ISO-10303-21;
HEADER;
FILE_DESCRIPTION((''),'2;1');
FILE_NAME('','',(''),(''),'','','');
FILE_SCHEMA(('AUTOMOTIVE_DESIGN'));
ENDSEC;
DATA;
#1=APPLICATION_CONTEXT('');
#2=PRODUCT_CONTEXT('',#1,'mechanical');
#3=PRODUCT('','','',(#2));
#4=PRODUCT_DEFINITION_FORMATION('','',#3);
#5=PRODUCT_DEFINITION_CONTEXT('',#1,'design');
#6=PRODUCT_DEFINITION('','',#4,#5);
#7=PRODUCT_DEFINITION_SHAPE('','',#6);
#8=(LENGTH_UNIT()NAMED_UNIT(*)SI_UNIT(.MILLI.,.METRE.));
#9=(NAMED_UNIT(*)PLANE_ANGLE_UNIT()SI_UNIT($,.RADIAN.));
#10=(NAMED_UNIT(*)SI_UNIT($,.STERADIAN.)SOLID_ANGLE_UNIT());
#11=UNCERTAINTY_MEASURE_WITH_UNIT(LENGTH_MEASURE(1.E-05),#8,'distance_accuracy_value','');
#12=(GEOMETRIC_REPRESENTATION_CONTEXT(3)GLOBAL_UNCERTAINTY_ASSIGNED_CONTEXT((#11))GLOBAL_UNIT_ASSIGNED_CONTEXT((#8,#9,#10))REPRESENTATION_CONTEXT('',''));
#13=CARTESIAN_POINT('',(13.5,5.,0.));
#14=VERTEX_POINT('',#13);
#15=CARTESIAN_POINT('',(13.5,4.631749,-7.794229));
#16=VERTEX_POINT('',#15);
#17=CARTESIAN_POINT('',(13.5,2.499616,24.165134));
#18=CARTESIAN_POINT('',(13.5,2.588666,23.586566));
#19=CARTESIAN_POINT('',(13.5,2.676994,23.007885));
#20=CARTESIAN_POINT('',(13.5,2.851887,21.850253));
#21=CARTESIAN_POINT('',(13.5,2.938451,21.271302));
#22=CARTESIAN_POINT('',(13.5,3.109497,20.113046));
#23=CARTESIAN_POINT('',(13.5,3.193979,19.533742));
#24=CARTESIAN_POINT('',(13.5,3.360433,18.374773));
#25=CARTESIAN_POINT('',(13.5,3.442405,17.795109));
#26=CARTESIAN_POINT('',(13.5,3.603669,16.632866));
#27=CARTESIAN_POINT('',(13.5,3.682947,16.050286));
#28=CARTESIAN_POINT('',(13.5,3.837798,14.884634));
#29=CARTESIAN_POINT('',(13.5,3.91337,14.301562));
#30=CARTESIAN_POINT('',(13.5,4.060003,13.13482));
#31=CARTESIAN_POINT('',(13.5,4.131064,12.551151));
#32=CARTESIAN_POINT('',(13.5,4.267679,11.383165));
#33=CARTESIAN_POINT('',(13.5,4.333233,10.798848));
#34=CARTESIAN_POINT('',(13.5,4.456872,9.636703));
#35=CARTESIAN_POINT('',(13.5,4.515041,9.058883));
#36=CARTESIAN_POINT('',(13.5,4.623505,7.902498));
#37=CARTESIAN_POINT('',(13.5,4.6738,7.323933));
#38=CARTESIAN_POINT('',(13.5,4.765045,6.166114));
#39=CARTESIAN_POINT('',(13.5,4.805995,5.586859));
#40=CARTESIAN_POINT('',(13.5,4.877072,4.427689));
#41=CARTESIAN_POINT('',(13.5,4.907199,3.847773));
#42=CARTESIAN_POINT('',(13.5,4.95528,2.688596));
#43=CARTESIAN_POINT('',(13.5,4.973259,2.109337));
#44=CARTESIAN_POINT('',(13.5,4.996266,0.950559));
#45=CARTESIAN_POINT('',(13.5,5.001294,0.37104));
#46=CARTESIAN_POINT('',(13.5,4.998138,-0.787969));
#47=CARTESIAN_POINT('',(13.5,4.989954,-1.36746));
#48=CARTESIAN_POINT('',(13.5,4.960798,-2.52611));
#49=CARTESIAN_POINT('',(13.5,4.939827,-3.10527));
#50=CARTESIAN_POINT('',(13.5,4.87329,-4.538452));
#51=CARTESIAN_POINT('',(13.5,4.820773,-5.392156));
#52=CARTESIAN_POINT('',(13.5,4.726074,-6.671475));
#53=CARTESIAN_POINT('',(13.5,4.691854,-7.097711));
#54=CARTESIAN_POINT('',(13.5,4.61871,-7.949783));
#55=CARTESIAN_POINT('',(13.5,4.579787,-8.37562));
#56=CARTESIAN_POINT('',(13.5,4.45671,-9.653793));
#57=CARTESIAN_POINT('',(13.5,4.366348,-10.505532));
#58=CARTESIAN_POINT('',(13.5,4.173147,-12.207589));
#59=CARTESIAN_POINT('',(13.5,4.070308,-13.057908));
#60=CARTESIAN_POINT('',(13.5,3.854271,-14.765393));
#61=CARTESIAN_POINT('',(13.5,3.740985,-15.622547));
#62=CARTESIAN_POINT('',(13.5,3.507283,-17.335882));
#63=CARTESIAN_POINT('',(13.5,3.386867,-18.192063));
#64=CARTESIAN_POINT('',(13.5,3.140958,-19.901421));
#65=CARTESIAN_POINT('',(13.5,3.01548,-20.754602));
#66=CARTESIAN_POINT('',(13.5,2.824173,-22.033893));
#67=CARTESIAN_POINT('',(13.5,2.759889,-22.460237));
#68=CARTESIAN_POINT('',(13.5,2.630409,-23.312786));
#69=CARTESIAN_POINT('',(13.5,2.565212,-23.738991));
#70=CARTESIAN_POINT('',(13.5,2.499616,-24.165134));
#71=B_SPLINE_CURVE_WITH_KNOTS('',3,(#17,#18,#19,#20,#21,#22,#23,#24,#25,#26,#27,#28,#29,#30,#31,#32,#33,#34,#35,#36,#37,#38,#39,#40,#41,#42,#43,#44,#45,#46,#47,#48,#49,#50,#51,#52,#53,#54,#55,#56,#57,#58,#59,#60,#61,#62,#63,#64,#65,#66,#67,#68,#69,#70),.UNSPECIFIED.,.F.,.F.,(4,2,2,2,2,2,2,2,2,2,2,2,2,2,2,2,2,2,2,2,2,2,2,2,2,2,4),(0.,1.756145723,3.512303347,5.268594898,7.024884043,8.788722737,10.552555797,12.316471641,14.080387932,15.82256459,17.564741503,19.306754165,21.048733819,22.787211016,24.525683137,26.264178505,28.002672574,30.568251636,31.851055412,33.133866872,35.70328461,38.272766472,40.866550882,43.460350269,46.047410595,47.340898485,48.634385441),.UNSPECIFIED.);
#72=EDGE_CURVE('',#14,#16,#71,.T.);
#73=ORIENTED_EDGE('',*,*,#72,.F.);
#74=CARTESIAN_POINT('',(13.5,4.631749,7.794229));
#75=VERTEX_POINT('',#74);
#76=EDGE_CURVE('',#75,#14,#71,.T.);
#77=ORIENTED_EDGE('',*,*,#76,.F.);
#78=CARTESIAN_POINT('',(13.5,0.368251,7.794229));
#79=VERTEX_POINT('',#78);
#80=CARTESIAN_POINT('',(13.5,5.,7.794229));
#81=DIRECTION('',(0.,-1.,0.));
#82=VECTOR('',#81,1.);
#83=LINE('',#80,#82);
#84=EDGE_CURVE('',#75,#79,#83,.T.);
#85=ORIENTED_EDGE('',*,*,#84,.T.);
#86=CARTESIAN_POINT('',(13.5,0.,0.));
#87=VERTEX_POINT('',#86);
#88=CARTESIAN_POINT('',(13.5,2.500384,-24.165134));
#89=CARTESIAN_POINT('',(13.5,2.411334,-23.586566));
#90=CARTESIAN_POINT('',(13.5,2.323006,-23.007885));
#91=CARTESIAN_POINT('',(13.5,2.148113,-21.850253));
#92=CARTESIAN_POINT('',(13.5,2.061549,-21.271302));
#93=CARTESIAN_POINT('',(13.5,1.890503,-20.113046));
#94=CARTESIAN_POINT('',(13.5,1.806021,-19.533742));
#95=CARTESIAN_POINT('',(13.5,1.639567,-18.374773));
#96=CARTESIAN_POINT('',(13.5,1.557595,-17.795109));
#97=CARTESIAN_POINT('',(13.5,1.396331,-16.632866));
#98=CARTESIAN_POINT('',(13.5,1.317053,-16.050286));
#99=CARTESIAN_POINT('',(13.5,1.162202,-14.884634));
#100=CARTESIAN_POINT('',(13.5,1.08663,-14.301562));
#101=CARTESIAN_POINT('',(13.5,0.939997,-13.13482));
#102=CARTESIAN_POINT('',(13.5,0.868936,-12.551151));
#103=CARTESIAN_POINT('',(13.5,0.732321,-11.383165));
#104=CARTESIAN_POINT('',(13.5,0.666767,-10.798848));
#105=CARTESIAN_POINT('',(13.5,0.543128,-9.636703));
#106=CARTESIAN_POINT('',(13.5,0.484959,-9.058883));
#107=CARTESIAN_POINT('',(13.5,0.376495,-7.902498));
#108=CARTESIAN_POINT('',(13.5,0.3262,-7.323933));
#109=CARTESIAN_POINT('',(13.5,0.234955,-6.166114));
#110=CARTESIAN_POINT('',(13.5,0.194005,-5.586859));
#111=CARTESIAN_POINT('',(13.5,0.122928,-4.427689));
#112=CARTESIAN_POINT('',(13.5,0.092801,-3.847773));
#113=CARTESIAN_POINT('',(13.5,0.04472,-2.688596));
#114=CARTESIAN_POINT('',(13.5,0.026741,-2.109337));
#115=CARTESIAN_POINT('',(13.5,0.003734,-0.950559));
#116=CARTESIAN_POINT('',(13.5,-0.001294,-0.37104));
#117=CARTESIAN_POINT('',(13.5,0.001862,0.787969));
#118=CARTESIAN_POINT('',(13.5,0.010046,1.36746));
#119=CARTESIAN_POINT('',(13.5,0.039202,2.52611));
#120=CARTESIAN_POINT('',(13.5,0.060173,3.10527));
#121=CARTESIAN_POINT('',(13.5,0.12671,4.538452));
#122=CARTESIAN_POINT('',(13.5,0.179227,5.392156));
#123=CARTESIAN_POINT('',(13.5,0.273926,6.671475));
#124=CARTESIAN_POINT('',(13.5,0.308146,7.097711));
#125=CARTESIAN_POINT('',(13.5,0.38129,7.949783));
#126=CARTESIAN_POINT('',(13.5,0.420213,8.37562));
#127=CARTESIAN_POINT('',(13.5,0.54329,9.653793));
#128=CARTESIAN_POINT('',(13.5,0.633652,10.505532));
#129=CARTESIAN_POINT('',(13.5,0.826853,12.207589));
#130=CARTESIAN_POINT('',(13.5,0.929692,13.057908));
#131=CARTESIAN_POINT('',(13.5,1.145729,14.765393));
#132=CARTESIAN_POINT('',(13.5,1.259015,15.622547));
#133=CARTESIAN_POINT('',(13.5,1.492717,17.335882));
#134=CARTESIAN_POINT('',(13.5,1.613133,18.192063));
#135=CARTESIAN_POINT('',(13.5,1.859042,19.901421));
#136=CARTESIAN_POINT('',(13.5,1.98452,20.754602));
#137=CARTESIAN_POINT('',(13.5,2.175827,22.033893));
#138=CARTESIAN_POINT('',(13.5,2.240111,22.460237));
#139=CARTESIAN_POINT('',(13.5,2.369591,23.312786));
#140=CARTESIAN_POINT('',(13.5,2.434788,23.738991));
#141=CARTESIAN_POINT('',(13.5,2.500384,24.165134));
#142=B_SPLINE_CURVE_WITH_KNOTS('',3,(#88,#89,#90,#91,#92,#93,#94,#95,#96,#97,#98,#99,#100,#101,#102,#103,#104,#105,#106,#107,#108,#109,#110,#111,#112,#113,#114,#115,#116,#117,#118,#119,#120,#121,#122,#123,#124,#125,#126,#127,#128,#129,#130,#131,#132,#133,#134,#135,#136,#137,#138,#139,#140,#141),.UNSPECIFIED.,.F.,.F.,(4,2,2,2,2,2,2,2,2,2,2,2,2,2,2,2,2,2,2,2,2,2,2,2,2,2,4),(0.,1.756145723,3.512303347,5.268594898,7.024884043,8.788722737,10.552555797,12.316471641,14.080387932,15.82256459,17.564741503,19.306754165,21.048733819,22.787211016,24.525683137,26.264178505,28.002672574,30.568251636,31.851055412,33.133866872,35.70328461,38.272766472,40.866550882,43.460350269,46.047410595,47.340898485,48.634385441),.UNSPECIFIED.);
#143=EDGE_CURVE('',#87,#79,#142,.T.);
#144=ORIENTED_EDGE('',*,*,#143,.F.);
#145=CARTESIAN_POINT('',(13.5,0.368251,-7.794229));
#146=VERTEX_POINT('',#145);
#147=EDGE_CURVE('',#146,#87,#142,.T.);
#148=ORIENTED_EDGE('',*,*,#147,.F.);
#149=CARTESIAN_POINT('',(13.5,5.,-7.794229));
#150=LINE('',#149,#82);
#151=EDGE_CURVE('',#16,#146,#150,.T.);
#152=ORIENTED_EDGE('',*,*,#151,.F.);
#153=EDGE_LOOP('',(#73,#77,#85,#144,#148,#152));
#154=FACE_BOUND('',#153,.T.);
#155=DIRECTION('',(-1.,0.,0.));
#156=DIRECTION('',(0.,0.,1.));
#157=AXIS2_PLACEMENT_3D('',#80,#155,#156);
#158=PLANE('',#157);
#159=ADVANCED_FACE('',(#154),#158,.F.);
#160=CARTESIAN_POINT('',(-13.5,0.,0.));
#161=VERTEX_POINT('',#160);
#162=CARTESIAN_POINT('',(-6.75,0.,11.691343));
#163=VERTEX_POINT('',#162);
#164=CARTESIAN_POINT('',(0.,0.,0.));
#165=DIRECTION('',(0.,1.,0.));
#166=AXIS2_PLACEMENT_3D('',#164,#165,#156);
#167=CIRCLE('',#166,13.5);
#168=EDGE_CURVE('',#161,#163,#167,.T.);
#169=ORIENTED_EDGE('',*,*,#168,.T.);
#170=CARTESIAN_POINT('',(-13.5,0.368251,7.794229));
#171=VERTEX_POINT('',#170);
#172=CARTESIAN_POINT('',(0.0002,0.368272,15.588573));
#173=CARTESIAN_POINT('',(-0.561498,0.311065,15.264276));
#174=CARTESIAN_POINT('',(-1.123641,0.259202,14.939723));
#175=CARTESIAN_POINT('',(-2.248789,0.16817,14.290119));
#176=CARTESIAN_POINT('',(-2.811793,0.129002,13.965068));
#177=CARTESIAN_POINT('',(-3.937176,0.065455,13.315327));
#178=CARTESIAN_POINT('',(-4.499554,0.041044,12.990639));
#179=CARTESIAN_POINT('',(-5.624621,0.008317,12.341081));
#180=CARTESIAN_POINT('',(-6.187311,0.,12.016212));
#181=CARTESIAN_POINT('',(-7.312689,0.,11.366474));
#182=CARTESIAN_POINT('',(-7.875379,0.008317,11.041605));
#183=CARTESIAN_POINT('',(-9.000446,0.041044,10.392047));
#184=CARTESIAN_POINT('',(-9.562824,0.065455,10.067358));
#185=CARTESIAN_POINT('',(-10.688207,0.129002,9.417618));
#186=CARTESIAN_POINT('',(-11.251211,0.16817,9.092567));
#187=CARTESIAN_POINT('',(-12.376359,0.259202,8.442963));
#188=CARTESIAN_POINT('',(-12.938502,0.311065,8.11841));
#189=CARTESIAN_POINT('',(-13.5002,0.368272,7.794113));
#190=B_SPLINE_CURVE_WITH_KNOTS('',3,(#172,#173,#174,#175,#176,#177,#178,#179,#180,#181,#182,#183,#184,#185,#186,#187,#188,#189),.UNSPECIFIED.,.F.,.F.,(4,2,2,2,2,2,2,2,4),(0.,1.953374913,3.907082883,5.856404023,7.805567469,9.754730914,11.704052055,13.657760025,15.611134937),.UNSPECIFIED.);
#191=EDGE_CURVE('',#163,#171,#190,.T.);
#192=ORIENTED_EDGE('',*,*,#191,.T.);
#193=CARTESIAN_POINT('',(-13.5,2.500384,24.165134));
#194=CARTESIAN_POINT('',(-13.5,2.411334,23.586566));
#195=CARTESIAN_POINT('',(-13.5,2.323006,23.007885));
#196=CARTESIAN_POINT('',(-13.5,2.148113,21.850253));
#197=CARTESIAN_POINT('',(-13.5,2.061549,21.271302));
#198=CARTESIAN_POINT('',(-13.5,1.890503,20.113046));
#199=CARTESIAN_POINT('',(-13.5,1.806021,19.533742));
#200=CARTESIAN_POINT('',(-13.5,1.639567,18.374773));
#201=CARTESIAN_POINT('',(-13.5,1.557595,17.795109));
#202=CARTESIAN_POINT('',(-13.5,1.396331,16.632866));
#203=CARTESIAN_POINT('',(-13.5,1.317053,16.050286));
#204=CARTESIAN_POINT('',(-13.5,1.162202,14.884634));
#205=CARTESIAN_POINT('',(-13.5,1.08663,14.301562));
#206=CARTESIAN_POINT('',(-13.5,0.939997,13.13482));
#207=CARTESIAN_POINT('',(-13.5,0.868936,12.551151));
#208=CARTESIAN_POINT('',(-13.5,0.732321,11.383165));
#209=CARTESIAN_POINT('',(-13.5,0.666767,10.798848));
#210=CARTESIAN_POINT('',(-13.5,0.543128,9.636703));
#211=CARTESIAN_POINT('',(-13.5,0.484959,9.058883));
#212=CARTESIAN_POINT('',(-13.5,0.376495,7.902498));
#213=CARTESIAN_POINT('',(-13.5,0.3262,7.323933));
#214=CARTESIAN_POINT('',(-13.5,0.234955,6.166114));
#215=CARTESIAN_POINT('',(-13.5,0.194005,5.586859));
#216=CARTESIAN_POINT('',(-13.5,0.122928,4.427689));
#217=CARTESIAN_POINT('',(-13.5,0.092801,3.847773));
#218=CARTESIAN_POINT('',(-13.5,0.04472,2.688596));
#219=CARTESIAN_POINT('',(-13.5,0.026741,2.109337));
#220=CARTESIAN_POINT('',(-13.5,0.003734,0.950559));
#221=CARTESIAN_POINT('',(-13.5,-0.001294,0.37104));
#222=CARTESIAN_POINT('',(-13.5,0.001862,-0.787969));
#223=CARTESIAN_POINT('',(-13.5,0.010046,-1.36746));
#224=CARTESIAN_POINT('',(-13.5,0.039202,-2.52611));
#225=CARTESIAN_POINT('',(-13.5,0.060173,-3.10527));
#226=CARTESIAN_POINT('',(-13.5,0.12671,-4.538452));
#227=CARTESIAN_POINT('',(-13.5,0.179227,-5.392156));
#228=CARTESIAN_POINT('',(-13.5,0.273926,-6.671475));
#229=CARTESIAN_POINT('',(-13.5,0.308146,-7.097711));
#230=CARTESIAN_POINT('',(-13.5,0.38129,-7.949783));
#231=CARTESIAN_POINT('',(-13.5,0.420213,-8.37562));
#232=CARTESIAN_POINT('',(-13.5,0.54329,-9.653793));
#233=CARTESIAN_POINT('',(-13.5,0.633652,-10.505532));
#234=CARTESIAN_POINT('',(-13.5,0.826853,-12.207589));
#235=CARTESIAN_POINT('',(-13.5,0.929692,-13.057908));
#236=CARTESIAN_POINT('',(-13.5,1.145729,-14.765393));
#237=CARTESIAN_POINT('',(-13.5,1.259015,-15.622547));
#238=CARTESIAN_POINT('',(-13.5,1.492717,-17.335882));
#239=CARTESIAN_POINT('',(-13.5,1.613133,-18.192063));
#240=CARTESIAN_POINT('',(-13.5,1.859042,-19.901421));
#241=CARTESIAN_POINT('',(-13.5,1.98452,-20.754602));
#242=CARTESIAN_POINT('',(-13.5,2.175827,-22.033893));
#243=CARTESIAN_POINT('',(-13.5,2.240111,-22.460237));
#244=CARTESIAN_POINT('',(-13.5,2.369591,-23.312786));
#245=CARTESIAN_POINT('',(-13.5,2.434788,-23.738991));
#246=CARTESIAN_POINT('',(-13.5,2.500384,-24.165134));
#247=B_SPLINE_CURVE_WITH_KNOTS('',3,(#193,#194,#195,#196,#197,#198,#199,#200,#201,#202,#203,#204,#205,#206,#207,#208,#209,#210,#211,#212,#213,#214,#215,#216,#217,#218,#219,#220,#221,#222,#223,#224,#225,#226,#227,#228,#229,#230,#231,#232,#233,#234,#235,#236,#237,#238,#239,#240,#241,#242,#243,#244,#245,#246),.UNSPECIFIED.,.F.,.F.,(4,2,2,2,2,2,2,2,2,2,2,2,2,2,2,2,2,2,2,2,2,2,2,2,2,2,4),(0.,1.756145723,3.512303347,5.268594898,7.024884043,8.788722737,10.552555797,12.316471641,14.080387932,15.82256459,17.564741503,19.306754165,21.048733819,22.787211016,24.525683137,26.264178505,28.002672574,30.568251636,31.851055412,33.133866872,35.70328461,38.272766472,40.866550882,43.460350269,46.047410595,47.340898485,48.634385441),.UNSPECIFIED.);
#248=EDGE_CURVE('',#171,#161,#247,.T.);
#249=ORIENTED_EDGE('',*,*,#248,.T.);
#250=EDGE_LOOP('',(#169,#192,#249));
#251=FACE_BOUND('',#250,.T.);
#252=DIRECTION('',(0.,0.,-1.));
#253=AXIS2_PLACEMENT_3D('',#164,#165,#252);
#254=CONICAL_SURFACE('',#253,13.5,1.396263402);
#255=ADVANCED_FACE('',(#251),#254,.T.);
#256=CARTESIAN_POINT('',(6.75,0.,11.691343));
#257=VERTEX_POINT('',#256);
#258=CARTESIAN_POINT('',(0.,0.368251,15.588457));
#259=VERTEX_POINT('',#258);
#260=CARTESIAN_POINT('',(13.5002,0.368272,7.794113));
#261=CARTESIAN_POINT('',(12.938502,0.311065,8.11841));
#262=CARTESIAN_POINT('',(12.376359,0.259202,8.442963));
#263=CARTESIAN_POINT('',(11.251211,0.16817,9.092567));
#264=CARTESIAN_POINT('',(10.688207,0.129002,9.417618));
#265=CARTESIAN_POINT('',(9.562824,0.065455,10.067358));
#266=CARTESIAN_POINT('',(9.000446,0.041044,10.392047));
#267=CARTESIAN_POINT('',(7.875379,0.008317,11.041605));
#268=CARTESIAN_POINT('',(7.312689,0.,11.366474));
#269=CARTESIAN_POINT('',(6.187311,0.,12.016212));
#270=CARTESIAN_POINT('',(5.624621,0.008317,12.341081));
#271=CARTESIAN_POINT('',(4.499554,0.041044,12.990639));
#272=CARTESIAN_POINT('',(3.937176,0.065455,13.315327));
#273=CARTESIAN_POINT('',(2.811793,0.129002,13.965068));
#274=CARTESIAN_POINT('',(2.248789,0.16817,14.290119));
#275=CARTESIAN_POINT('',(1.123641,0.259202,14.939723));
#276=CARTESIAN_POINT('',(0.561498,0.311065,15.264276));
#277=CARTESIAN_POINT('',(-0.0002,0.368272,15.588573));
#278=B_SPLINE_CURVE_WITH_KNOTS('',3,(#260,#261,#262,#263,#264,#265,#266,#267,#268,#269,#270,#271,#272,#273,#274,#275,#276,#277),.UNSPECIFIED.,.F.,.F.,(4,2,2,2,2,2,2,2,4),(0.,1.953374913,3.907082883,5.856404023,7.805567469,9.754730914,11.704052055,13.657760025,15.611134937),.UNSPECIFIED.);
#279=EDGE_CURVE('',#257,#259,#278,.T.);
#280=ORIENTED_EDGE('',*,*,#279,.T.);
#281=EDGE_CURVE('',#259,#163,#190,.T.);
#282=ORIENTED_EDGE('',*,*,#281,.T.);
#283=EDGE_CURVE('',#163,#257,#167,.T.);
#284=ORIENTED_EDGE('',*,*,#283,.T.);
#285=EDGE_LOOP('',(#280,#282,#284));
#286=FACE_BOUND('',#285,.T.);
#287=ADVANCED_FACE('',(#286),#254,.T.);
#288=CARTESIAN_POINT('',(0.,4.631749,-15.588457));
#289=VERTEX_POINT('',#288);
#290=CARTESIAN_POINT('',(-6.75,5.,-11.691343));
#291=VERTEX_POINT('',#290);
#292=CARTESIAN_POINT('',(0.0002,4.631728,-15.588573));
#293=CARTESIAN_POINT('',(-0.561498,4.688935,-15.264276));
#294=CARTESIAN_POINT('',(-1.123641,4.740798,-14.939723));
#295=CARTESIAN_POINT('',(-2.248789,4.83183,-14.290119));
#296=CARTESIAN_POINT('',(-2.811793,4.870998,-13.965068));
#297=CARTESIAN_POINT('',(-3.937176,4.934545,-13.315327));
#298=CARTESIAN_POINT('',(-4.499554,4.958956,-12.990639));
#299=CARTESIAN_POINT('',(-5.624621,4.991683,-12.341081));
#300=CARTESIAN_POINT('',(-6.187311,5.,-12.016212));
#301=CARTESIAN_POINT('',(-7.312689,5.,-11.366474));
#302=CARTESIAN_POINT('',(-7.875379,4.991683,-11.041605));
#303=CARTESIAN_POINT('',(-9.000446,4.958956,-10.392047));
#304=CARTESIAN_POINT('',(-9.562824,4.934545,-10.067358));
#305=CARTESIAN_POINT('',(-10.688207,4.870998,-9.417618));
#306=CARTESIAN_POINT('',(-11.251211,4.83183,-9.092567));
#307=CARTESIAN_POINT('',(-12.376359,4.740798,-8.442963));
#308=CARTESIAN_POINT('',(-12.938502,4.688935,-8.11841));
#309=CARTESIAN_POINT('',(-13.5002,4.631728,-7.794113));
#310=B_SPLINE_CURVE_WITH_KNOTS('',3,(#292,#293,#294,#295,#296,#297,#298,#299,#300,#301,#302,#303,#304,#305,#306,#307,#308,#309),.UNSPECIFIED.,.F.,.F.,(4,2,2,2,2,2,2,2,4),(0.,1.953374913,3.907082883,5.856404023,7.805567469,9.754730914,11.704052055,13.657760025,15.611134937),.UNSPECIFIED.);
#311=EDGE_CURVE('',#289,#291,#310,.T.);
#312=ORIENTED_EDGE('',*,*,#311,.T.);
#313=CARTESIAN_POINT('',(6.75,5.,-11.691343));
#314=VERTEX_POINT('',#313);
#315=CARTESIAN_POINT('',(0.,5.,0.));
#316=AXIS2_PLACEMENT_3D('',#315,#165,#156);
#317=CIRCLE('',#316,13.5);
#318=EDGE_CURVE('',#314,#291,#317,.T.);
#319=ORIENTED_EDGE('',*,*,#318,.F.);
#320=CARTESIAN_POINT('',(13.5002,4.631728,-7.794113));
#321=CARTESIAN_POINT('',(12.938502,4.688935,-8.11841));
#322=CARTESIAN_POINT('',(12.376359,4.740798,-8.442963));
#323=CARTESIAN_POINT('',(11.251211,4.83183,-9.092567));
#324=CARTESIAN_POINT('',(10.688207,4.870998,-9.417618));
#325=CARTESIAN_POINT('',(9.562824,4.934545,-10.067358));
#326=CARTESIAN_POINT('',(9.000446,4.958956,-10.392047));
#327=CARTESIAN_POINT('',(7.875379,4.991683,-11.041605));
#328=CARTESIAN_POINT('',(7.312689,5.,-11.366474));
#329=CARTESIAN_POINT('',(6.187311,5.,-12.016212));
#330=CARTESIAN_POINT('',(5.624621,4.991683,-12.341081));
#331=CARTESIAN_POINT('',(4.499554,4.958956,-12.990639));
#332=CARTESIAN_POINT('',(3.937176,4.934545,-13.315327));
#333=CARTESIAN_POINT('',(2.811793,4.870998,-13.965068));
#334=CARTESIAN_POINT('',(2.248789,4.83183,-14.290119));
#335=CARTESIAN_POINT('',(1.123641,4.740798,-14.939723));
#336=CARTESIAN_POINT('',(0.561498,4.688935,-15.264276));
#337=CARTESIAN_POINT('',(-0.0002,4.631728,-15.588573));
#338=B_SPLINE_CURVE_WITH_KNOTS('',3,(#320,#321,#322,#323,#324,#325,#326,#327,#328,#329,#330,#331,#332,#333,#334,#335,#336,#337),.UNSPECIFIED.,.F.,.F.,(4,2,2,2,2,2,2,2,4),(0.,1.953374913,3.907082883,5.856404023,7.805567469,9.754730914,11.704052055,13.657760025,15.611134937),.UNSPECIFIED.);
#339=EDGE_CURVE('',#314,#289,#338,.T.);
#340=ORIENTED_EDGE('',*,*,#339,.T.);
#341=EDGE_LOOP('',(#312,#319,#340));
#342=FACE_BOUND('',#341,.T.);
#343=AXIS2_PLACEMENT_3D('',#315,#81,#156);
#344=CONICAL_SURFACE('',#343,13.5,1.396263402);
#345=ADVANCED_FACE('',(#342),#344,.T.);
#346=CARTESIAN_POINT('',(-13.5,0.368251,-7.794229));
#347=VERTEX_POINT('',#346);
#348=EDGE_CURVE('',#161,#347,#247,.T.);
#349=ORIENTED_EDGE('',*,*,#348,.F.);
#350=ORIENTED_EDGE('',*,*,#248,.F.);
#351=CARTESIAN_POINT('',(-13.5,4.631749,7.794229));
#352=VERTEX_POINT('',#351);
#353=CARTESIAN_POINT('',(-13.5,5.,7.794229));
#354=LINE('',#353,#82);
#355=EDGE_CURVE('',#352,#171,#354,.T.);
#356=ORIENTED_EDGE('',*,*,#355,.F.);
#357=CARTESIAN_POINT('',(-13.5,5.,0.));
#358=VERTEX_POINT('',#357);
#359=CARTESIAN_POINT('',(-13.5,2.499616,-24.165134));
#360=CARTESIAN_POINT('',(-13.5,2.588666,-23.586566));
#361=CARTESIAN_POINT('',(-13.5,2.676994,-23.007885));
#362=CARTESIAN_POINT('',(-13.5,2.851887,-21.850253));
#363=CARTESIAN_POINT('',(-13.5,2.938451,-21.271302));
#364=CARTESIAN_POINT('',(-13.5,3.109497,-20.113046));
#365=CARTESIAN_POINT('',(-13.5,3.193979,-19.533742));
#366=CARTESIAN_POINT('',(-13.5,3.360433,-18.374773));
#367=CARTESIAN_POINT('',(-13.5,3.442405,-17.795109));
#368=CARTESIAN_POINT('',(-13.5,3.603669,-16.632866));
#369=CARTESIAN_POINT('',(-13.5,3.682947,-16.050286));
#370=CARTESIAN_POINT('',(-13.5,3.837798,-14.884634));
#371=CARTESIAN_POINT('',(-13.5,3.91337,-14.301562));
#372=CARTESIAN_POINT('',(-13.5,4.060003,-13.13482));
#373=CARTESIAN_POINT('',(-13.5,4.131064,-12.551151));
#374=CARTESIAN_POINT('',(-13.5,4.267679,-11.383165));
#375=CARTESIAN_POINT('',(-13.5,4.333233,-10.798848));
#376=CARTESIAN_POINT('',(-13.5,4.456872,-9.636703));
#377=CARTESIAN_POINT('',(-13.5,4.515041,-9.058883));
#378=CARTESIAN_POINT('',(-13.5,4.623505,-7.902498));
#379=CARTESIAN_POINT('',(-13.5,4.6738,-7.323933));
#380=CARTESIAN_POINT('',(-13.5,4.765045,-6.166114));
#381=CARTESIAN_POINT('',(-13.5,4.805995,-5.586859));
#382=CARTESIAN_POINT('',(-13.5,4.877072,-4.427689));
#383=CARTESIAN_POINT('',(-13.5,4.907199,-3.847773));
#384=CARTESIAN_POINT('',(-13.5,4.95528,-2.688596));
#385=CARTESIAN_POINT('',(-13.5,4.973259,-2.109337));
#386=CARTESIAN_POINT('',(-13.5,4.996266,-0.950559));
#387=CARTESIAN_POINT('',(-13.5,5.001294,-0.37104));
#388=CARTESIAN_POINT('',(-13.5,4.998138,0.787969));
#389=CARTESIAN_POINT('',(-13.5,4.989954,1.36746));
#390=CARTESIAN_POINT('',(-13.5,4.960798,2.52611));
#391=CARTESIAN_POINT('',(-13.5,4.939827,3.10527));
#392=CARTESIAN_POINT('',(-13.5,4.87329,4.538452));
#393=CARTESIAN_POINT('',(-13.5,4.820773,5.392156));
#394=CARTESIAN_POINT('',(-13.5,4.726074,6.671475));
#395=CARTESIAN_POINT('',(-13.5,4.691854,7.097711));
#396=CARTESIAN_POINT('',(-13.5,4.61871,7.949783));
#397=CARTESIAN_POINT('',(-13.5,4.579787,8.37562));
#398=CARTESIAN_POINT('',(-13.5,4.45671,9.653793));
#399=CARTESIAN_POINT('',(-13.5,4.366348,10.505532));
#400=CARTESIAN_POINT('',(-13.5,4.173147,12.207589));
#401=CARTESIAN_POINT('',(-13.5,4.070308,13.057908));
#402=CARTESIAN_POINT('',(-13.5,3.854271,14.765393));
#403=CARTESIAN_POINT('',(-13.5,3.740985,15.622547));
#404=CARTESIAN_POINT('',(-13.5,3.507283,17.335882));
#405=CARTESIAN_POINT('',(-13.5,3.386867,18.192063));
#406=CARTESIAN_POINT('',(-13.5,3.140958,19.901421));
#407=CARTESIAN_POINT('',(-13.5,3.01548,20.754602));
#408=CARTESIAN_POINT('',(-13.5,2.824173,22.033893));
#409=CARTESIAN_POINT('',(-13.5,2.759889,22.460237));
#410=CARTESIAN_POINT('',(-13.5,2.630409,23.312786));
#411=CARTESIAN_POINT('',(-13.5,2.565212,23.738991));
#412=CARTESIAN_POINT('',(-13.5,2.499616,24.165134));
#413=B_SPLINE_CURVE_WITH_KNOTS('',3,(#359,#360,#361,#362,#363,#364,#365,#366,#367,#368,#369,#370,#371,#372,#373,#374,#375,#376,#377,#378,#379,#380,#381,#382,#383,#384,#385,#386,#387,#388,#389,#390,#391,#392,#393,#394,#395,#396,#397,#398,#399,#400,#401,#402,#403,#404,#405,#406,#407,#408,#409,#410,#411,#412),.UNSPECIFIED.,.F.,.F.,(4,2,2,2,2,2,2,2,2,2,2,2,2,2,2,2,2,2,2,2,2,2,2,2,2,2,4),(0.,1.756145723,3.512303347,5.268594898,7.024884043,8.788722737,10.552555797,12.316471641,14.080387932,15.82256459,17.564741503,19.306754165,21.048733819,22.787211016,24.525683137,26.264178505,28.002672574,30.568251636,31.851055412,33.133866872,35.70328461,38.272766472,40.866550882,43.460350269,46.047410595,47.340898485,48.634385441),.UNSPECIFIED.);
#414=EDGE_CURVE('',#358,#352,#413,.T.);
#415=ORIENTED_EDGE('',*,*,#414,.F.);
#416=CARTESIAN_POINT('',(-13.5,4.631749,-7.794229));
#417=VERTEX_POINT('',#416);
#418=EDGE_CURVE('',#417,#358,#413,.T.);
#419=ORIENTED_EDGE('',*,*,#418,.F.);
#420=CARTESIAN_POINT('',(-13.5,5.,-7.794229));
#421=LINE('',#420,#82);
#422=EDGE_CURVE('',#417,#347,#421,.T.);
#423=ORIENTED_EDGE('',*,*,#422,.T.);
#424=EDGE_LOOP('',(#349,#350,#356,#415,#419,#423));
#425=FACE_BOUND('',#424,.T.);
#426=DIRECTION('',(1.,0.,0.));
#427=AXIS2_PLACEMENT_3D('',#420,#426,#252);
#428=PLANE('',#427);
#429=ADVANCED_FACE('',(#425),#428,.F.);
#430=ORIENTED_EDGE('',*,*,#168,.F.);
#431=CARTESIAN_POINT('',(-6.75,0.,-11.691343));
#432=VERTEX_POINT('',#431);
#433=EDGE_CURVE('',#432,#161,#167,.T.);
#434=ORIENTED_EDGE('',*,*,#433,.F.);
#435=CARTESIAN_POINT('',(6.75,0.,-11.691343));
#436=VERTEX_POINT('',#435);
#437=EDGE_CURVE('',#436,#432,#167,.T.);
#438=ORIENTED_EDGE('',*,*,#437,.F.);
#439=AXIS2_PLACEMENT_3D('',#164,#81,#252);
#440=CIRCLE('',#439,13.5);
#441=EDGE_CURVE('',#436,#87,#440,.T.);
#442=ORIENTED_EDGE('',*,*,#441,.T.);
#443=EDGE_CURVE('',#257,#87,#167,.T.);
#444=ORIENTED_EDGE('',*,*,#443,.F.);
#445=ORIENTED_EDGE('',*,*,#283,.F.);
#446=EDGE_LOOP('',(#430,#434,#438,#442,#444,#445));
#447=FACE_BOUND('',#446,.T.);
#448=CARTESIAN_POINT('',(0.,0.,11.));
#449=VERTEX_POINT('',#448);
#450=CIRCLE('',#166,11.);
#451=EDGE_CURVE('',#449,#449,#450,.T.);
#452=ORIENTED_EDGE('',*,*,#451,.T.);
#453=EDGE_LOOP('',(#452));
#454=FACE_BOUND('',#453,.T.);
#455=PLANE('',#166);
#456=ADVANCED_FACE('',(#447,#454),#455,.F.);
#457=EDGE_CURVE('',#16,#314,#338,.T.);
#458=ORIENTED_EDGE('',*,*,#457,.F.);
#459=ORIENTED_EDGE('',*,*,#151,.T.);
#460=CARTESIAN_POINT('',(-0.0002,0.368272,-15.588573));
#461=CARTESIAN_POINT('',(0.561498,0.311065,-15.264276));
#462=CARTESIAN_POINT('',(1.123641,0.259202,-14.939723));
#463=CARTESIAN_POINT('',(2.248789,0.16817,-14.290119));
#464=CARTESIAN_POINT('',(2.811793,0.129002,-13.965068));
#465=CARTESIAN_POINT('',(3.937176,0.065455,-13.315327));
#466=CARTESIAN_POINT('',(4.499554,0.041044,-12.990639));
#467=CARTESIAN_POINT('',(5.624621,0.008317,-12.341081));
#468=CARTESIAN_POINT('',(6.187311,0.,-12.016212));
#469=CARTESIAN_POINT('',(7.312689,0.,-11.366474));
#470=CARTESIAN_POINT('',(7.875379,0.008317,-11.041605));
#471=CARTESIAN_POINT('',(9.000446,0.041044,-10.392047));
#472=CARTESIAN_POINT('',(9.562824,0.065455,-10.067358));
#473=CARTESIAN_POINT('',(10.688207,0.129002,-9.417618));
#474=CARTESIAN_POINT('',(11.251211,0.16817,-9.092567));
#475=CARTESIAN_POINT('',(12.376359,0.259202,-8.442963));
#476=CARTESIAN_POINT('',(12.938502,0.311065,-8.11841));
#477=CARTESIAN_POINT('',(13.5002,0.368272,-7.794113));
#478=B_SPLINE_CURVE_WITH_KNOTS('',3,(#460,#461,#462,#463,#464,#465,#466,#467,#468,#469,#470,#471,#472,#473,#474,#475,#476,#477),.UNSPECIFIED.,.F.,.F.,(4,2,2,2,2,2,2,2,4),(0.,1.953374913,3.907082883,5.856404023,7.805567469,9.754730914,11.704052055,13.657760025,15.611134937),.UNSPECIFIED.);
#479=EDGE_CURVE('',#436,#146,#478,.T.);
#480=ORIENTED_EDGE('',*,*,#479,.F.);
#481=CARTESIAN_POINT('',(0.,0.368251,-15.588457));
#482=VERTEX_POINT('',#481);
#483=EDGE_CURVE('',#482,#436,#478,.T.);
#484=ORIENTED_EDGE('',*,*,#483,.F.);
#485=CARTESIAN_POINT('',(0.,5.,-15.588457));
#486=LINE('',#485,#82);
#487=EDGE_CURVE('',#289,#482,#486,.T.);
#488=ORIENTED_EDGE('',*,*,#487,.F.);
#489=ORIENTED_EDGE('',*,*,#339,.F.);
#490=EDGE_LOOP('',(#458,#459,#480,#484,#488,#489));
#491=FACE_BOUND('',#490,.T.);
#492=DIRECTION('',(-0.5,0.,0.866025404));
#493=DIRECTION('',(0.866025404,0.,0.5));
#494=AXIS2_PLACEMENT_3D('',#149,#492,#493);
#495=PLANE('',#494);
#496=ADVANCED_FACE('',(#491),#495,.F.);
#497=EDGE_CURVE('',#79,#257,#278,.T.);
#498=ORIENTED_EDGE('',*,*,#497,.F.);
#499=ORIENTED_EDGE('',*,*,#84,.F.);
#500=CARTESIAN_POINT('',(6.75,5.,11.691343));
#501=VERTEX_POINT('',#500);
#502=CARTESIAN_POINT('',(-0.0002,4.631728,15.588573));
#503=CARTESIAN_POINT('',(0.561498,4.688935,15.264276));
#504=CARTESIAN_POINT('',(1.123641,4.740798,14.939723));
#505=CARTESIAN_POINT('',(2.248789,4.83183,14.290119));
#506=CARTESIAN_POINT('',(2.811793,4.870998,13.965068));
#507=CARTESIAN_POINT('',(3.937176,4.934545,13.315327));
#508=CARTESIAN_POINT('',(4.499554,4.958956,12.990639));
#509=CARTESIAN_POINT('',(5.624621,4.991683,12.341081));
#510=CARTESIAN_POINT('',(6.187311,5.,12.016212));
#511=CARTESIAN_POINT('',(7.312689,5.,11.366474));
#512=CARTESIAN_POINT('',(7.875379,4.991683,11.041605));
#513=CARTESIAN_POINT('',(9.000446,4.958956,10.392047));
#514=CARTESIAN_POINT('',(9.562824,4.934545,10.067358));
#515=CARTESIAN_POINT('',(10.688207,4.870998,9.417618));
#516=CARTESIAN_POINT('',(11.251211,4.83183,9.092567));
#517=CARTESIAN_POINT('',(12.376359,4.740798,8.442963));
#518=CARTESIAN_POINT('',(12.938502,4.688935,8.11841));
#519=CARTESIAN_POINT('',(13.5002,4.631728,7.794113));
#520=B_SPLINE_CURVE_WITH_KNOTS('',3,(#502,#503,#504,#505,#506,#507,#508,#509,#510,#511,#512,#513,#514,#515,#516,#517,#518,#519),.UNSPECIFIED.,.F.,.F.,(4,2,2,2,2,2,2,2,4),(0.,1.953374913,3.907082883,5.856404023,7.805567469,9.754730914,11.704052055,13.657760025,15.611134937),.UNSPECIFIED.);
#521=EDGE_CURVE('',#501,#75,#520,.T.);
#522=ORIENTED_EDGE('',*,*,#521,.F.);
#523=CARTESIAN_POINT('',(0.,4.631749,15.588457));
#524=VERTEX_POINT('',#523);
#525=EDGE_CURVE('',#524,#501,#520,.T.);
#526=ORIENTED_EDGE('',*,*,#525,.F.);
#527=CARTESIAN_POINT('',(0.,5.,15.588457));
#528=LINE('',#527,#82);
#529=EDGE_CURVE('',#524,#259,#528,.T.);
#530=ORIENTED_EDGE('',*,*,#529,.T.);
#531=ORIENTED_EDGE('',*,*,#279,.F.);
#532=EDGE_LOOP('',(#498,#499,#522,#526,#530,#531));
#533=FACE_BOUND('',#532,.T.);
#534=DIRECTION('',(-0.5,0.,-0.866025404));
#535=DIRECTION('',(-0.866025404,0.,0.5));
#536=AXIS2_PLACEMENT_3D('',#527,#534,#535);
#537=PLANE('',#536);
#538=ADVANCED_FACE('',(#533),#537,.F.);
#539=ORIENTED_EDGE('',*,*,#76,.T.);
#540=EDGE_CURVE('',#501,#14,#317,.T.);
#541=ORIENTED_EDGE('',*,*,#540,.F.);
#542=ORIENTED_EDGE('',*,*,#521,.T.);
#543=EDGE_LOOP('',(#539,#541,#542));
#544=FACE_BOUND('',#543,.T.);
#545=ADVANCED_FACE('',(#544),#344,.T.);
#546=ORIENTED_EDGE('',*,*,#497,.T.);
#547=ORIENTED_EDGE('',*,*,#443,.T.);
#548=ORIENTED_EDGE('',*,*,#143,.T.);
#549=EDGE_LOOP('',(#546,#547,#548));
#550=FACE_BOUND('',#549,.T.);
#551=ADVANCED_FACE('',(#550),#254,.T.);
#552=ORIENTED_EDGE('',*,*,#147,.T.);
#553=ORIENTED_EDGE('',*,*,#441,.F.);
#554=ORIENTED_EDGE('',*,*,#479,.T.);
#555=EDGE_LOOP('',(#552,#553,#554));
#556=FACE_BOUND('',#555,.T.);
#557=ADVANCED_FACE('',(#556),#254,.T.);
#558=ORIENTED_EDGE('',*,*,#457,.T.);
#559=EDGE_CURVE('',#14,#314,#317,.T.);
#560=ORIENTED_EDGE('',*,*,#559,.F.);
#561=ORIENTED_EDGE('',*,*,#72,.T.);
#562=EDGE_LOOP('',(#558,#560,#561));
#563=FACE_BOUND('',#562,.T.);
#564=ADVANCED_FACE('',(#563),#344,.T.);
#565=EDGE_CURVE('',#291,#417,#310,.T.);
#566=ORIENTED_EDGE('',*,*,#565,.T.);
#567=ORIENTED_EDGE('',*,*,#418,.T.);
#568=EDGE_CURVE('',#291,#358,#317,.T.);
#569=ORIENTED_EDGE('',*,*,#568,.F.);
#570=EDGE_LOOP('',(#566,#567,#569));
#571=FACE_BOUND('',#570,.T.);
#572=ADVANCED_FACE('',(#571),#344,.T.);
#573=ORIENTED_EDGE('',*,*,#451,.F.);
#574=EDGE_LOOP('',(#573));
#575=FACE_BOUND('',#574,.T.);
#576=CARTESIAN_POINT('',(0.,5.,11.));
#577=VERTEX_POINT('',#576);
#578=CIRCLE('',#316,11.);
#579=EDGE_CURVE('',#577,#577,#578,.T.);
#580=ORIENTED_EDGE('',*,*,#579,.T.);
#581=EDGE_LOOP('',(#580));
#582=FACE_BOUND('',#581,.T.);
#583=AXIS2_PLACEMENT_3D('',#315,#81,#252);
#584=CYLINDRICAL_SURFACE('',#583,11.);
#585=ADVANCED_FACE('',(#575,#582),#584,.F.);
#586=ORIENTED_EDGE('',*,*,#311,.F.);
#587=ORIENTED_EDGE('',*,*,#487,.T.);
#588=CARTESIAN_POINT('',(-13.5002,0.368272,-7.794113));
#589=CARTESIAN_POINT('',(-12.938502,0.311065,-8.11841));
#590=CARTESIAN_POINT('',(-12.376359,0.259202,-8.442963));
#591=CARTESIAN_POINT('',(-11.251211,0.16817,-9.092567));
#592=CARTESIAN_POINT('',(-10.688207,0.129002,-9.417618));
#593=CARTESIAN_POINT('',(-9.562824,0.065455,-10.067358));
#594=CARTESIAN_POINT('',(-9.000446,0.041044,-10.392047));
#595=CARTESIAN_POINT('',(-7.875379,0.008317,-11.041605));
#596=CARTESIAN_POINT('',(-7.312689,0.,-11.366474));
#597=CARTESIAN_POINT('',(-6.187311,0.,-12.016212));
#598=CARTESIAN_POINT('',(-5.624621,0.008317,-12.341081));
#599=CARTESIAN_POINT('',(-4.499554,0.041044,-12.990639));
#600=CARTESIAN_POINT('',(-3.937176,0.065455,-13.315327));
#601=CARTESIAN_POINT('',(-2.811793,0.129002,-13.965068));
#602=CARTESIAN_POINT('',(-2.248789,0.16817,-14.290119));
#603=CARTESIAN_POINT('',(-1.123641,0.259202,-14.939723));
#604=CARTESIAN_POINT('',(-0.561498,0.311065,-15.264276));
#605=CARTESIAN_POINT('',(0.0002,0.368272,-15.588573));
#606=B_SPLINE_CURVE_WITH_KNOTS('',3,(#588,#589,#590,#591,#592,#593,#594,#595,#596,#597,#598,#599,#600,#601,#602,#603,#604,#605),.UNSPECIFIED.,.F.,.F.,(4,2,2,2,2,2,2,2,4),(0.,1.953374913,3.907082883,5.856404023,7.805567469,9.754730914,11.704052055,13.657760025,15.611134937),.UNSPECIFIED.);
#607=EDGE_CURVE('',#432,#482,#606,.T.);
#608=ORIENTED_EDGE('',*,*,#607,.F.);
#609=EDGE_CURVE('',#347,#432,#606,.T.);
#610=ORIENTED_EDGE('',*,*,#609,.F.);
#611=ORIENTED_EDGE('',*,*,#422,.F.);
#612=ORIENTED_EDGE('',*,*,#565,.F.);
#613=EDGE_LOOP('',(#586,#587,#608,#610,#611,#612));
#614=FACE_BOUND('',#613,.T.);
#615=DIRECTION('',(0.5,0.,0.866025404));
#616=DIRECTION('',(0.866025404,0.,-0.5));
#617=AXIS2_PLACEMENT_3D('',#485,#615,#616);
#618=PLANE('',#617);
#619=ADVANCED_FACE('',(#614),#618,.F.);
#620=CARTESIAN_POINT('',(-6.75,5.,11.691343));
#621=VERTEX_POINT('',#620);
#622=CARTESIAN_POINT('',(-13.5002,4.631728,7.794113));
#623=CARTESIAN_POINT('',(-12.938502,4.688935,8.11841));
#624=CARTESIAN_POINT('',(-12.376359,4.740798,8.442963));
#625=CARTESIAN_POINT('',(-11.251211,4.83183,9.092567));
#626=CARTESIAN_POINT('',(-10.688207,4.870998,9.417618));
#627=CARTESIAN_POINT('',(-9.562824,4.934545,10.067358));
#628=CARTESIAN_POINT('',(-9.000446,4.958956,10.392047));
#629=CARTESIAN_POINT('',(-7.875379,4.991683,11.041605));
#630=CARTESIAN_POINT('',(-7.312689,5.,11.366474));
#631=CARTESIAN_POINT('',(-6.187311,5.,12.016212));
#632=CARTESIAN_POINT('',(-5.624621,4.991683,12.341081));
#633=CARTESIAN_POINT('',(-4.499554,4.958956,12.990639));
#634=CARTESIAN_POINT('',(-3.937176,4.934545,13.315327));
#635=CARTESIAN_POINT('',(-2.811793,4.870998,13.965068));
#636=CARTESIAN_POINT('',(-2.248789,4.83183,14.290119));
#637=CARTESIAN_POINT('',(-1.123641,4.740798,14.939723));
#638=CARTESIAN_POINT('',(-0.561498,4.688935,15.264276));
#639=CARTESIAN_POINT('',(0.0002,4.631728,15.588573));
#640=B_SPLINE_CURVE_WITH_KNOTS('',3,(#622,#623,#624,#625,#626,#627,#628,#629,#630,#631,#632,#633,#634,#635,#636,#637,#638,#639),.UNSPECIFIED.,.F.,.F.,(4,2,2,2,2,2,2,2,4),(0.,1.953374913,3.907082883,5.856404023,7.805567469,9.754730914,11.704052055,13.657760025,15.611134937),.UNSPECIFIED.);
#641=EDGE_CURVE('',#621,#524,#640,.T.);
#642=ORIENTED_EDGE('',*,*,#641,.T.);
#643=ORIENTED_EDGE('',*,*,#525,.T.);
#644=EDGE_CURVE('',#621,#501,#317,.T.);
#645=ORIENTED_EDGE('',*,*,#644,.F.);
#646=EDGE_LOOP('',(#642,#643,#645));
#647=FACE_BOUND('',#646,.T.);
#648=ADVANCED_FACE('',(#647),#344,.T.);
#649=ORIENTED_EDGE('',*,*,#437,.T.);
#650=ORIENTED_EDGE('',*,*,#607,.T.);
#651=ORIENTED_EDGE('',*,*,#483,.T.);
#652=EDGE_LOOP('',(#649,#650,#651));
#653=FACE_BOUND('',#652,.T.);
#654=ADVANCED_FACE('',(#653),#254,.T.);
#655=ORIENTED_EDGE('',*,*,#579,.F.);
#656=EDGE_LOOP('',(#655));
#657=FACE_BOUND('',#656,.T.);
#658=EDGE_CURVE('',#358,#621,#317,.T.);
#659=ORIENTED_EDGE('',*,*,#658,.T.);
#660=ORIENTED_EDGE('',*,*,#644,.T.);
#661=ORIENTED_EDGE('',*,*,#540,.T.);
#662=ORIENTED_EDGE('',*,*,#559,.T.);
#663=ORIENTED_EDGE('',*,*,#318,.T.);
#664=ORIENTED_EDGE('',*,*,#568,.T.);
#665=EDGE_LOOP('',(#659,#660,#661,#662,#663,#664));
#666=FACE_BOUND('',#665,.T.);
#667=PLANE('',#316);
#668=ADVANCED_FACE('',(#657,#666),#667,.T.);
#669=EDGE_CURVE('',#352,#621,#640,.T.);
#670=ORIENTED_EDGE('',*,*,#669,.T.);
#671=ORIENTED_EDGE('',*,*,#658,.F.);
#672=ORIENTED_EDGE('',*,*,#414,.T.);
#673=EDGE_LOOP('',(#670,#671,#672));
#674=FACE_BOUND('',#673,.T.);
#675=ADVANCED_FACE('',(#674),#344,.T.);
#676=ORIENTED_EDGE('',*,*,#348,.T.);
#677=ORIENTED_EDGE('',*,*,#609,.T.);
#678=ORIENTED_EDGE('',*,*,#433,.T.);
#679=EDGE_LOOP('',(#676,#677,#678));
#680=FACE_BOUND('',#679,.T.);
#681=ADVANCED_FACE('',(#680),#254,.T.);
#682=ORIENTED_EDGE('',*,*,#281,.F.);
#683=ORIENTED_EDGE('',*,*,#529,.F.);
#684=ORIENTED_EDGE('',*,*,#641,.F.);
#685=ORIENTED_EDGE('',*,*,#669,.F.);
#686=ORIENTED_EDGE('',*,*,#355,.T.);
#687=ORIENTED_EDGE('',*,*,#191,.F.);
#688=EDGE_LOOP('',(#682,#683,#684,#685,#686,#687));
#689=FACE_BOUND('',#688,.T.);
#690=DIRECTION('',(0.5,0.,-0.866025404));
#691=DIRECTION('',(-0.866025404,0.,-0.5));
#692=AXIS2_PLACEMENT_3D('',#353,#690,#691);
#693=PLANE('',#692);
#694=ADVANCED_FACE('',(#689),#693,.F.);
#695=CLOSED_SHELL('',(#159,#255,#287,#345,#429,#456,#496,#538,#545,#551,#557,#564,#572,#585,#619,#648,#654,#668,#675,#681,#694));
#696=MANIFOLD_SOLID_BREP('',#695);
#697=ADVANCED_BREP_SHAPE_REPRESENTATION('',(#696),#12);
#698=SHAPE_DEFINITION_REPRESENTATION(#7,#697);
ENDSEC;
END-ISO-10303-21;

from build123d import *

# Parameters (mm, degrees)
CROQUIS1_R              = 11
SALIENTE_EXTRUIR1_DEPTH = 5
CROQUIS2_OUTSIDE_W      = 289.33
CROQUIS2_OUTSIDE_H      = 293.506
CROQUIS2_OUTSIDE_R      = 13.5
CORTAR_EXTRUIR1_DEPTH   = 22.219095174
CORTAR_EXTRUIR1_DRAFT   = -80
CROQUIS3_OUTSIDE_W      = 94.022
CROQUIS3_OUTSIDE_H      = 98.198
CROQUIS3_OUTSIDE_R      = 13.5
CORTAR_EXTRUIR2_DEPTH   = 5
CORTAR_EXTRUIR2_DRAFT   = -80


with BuildPart() as part:
    # Croquis1 → Saliente-Extruir1 (new body)
    with BuildSketch(Plane(origin=(0, 0, 0), x_dir=(1, 0, 0), z_dir=(0, 1, 0))):
        Polygon((0, 15.588457268), (-13.5, 7.794228634), (-13.5, -7.794228634), (0, -15.588457268), (13.5, -7.794228634), (13.5, 7.794228634), align=None)
        with Locations(Location((0, 0, 0), (0, 0, 270))):
            Circle(CROQUIS1_R, mode=Mode.SUBTRACT)
    extrude(amount=SALIENTE_EXTRUIR1_DEPTH)


with BuildPart() as cortar_extruir1_tool:
    # Croquis2 outside → Cortar-Extruir1 (with draft: the straight prism first)
    with BuildSketch(Plane(origin=(0, 5, 0), x_dir=(1, 0, 0), z_dir=(0, 1, 0))):
        Rectangle(CROQUIS2_OUTSIDE_W, CROQUIS2_OUTSIDE_H)
        Circle(CROQUIS2_OUTSIDE_R, mode=Mode.SUBTRACT)
    extrude(amount=-CORTAR_EXTRUIR1_DEPTH)
    # Cortar-Extruir1: the draft: its side faces are tilted about the plane it starts from
    cortar_extruir1_sides = [cortar_extruir1_tool.faces().sort_by_distance(p)[0] for p in [
        (0, -6.109547587, 146.753),
        (144.665, -6.109547587, 0),
        (0, -6.109547587, -146.753),
        (-144.665, -6.109547587, 0),
        (-13.5, -6.109547587, 0),
    ]]
    draft(cortar_extruir1_sides, Plane(origin=(0, 5, 0), x_dir=(1, 0, 0), z_dir=(0, 1, 0)), CORTAR_EXTRUIR1_DRAFT)


with BuildPart() as part_1:
    add(part.part)

    # Cortar-Extruir1: cut by cortar_extruir1_tool
    add(cortar_extruir1_tool.part, mode=Mode.SUBTRACT)


with BuildPart() as cortar_extruir2_tool:
    # Croquis3 outside → Cortar-Extruir2 (with draft: the straight prism first)
    with BuildSketch(Plane.XZ):
        Rectangle(CROQUIS3_OUTSIDE_W, CROQUIS3_OUTSIDE_H)
        Circle(CROQUIS3_OUTSIDE_R, mode=Mode.SUBTRACT)
    extrude(amount=-CORTAR_EXTRUIR2_DEPTH)
    # Cortar-Extruir2: the draft: its side faces are tilted about the plane it starts from
    cortar_extruir2_sides = [cortar_extruir2_tool.faces().sort_by_distance(p)[0] for p in [
        (0, 2.5, -49.099),
        (47.011, 2.5, 0),
        (0, 2.5, 49.099),
        (-47.011, 2.5, 0),
        (-13.5, 2.5, 0),
    ]]
    draft(cortar_extruir2_sides, Plane.XZ, CORTAR_EXTRUIR2_DRAFT)


with BuildPart() as part_2:
    add(part_1.part)

    # Cortar-Extruir2: cut by cortar_extruir2_tool
    add(cortar_extruir2_tool.part, mode=Mode.SUBTRACT)


solid = part_2.part
